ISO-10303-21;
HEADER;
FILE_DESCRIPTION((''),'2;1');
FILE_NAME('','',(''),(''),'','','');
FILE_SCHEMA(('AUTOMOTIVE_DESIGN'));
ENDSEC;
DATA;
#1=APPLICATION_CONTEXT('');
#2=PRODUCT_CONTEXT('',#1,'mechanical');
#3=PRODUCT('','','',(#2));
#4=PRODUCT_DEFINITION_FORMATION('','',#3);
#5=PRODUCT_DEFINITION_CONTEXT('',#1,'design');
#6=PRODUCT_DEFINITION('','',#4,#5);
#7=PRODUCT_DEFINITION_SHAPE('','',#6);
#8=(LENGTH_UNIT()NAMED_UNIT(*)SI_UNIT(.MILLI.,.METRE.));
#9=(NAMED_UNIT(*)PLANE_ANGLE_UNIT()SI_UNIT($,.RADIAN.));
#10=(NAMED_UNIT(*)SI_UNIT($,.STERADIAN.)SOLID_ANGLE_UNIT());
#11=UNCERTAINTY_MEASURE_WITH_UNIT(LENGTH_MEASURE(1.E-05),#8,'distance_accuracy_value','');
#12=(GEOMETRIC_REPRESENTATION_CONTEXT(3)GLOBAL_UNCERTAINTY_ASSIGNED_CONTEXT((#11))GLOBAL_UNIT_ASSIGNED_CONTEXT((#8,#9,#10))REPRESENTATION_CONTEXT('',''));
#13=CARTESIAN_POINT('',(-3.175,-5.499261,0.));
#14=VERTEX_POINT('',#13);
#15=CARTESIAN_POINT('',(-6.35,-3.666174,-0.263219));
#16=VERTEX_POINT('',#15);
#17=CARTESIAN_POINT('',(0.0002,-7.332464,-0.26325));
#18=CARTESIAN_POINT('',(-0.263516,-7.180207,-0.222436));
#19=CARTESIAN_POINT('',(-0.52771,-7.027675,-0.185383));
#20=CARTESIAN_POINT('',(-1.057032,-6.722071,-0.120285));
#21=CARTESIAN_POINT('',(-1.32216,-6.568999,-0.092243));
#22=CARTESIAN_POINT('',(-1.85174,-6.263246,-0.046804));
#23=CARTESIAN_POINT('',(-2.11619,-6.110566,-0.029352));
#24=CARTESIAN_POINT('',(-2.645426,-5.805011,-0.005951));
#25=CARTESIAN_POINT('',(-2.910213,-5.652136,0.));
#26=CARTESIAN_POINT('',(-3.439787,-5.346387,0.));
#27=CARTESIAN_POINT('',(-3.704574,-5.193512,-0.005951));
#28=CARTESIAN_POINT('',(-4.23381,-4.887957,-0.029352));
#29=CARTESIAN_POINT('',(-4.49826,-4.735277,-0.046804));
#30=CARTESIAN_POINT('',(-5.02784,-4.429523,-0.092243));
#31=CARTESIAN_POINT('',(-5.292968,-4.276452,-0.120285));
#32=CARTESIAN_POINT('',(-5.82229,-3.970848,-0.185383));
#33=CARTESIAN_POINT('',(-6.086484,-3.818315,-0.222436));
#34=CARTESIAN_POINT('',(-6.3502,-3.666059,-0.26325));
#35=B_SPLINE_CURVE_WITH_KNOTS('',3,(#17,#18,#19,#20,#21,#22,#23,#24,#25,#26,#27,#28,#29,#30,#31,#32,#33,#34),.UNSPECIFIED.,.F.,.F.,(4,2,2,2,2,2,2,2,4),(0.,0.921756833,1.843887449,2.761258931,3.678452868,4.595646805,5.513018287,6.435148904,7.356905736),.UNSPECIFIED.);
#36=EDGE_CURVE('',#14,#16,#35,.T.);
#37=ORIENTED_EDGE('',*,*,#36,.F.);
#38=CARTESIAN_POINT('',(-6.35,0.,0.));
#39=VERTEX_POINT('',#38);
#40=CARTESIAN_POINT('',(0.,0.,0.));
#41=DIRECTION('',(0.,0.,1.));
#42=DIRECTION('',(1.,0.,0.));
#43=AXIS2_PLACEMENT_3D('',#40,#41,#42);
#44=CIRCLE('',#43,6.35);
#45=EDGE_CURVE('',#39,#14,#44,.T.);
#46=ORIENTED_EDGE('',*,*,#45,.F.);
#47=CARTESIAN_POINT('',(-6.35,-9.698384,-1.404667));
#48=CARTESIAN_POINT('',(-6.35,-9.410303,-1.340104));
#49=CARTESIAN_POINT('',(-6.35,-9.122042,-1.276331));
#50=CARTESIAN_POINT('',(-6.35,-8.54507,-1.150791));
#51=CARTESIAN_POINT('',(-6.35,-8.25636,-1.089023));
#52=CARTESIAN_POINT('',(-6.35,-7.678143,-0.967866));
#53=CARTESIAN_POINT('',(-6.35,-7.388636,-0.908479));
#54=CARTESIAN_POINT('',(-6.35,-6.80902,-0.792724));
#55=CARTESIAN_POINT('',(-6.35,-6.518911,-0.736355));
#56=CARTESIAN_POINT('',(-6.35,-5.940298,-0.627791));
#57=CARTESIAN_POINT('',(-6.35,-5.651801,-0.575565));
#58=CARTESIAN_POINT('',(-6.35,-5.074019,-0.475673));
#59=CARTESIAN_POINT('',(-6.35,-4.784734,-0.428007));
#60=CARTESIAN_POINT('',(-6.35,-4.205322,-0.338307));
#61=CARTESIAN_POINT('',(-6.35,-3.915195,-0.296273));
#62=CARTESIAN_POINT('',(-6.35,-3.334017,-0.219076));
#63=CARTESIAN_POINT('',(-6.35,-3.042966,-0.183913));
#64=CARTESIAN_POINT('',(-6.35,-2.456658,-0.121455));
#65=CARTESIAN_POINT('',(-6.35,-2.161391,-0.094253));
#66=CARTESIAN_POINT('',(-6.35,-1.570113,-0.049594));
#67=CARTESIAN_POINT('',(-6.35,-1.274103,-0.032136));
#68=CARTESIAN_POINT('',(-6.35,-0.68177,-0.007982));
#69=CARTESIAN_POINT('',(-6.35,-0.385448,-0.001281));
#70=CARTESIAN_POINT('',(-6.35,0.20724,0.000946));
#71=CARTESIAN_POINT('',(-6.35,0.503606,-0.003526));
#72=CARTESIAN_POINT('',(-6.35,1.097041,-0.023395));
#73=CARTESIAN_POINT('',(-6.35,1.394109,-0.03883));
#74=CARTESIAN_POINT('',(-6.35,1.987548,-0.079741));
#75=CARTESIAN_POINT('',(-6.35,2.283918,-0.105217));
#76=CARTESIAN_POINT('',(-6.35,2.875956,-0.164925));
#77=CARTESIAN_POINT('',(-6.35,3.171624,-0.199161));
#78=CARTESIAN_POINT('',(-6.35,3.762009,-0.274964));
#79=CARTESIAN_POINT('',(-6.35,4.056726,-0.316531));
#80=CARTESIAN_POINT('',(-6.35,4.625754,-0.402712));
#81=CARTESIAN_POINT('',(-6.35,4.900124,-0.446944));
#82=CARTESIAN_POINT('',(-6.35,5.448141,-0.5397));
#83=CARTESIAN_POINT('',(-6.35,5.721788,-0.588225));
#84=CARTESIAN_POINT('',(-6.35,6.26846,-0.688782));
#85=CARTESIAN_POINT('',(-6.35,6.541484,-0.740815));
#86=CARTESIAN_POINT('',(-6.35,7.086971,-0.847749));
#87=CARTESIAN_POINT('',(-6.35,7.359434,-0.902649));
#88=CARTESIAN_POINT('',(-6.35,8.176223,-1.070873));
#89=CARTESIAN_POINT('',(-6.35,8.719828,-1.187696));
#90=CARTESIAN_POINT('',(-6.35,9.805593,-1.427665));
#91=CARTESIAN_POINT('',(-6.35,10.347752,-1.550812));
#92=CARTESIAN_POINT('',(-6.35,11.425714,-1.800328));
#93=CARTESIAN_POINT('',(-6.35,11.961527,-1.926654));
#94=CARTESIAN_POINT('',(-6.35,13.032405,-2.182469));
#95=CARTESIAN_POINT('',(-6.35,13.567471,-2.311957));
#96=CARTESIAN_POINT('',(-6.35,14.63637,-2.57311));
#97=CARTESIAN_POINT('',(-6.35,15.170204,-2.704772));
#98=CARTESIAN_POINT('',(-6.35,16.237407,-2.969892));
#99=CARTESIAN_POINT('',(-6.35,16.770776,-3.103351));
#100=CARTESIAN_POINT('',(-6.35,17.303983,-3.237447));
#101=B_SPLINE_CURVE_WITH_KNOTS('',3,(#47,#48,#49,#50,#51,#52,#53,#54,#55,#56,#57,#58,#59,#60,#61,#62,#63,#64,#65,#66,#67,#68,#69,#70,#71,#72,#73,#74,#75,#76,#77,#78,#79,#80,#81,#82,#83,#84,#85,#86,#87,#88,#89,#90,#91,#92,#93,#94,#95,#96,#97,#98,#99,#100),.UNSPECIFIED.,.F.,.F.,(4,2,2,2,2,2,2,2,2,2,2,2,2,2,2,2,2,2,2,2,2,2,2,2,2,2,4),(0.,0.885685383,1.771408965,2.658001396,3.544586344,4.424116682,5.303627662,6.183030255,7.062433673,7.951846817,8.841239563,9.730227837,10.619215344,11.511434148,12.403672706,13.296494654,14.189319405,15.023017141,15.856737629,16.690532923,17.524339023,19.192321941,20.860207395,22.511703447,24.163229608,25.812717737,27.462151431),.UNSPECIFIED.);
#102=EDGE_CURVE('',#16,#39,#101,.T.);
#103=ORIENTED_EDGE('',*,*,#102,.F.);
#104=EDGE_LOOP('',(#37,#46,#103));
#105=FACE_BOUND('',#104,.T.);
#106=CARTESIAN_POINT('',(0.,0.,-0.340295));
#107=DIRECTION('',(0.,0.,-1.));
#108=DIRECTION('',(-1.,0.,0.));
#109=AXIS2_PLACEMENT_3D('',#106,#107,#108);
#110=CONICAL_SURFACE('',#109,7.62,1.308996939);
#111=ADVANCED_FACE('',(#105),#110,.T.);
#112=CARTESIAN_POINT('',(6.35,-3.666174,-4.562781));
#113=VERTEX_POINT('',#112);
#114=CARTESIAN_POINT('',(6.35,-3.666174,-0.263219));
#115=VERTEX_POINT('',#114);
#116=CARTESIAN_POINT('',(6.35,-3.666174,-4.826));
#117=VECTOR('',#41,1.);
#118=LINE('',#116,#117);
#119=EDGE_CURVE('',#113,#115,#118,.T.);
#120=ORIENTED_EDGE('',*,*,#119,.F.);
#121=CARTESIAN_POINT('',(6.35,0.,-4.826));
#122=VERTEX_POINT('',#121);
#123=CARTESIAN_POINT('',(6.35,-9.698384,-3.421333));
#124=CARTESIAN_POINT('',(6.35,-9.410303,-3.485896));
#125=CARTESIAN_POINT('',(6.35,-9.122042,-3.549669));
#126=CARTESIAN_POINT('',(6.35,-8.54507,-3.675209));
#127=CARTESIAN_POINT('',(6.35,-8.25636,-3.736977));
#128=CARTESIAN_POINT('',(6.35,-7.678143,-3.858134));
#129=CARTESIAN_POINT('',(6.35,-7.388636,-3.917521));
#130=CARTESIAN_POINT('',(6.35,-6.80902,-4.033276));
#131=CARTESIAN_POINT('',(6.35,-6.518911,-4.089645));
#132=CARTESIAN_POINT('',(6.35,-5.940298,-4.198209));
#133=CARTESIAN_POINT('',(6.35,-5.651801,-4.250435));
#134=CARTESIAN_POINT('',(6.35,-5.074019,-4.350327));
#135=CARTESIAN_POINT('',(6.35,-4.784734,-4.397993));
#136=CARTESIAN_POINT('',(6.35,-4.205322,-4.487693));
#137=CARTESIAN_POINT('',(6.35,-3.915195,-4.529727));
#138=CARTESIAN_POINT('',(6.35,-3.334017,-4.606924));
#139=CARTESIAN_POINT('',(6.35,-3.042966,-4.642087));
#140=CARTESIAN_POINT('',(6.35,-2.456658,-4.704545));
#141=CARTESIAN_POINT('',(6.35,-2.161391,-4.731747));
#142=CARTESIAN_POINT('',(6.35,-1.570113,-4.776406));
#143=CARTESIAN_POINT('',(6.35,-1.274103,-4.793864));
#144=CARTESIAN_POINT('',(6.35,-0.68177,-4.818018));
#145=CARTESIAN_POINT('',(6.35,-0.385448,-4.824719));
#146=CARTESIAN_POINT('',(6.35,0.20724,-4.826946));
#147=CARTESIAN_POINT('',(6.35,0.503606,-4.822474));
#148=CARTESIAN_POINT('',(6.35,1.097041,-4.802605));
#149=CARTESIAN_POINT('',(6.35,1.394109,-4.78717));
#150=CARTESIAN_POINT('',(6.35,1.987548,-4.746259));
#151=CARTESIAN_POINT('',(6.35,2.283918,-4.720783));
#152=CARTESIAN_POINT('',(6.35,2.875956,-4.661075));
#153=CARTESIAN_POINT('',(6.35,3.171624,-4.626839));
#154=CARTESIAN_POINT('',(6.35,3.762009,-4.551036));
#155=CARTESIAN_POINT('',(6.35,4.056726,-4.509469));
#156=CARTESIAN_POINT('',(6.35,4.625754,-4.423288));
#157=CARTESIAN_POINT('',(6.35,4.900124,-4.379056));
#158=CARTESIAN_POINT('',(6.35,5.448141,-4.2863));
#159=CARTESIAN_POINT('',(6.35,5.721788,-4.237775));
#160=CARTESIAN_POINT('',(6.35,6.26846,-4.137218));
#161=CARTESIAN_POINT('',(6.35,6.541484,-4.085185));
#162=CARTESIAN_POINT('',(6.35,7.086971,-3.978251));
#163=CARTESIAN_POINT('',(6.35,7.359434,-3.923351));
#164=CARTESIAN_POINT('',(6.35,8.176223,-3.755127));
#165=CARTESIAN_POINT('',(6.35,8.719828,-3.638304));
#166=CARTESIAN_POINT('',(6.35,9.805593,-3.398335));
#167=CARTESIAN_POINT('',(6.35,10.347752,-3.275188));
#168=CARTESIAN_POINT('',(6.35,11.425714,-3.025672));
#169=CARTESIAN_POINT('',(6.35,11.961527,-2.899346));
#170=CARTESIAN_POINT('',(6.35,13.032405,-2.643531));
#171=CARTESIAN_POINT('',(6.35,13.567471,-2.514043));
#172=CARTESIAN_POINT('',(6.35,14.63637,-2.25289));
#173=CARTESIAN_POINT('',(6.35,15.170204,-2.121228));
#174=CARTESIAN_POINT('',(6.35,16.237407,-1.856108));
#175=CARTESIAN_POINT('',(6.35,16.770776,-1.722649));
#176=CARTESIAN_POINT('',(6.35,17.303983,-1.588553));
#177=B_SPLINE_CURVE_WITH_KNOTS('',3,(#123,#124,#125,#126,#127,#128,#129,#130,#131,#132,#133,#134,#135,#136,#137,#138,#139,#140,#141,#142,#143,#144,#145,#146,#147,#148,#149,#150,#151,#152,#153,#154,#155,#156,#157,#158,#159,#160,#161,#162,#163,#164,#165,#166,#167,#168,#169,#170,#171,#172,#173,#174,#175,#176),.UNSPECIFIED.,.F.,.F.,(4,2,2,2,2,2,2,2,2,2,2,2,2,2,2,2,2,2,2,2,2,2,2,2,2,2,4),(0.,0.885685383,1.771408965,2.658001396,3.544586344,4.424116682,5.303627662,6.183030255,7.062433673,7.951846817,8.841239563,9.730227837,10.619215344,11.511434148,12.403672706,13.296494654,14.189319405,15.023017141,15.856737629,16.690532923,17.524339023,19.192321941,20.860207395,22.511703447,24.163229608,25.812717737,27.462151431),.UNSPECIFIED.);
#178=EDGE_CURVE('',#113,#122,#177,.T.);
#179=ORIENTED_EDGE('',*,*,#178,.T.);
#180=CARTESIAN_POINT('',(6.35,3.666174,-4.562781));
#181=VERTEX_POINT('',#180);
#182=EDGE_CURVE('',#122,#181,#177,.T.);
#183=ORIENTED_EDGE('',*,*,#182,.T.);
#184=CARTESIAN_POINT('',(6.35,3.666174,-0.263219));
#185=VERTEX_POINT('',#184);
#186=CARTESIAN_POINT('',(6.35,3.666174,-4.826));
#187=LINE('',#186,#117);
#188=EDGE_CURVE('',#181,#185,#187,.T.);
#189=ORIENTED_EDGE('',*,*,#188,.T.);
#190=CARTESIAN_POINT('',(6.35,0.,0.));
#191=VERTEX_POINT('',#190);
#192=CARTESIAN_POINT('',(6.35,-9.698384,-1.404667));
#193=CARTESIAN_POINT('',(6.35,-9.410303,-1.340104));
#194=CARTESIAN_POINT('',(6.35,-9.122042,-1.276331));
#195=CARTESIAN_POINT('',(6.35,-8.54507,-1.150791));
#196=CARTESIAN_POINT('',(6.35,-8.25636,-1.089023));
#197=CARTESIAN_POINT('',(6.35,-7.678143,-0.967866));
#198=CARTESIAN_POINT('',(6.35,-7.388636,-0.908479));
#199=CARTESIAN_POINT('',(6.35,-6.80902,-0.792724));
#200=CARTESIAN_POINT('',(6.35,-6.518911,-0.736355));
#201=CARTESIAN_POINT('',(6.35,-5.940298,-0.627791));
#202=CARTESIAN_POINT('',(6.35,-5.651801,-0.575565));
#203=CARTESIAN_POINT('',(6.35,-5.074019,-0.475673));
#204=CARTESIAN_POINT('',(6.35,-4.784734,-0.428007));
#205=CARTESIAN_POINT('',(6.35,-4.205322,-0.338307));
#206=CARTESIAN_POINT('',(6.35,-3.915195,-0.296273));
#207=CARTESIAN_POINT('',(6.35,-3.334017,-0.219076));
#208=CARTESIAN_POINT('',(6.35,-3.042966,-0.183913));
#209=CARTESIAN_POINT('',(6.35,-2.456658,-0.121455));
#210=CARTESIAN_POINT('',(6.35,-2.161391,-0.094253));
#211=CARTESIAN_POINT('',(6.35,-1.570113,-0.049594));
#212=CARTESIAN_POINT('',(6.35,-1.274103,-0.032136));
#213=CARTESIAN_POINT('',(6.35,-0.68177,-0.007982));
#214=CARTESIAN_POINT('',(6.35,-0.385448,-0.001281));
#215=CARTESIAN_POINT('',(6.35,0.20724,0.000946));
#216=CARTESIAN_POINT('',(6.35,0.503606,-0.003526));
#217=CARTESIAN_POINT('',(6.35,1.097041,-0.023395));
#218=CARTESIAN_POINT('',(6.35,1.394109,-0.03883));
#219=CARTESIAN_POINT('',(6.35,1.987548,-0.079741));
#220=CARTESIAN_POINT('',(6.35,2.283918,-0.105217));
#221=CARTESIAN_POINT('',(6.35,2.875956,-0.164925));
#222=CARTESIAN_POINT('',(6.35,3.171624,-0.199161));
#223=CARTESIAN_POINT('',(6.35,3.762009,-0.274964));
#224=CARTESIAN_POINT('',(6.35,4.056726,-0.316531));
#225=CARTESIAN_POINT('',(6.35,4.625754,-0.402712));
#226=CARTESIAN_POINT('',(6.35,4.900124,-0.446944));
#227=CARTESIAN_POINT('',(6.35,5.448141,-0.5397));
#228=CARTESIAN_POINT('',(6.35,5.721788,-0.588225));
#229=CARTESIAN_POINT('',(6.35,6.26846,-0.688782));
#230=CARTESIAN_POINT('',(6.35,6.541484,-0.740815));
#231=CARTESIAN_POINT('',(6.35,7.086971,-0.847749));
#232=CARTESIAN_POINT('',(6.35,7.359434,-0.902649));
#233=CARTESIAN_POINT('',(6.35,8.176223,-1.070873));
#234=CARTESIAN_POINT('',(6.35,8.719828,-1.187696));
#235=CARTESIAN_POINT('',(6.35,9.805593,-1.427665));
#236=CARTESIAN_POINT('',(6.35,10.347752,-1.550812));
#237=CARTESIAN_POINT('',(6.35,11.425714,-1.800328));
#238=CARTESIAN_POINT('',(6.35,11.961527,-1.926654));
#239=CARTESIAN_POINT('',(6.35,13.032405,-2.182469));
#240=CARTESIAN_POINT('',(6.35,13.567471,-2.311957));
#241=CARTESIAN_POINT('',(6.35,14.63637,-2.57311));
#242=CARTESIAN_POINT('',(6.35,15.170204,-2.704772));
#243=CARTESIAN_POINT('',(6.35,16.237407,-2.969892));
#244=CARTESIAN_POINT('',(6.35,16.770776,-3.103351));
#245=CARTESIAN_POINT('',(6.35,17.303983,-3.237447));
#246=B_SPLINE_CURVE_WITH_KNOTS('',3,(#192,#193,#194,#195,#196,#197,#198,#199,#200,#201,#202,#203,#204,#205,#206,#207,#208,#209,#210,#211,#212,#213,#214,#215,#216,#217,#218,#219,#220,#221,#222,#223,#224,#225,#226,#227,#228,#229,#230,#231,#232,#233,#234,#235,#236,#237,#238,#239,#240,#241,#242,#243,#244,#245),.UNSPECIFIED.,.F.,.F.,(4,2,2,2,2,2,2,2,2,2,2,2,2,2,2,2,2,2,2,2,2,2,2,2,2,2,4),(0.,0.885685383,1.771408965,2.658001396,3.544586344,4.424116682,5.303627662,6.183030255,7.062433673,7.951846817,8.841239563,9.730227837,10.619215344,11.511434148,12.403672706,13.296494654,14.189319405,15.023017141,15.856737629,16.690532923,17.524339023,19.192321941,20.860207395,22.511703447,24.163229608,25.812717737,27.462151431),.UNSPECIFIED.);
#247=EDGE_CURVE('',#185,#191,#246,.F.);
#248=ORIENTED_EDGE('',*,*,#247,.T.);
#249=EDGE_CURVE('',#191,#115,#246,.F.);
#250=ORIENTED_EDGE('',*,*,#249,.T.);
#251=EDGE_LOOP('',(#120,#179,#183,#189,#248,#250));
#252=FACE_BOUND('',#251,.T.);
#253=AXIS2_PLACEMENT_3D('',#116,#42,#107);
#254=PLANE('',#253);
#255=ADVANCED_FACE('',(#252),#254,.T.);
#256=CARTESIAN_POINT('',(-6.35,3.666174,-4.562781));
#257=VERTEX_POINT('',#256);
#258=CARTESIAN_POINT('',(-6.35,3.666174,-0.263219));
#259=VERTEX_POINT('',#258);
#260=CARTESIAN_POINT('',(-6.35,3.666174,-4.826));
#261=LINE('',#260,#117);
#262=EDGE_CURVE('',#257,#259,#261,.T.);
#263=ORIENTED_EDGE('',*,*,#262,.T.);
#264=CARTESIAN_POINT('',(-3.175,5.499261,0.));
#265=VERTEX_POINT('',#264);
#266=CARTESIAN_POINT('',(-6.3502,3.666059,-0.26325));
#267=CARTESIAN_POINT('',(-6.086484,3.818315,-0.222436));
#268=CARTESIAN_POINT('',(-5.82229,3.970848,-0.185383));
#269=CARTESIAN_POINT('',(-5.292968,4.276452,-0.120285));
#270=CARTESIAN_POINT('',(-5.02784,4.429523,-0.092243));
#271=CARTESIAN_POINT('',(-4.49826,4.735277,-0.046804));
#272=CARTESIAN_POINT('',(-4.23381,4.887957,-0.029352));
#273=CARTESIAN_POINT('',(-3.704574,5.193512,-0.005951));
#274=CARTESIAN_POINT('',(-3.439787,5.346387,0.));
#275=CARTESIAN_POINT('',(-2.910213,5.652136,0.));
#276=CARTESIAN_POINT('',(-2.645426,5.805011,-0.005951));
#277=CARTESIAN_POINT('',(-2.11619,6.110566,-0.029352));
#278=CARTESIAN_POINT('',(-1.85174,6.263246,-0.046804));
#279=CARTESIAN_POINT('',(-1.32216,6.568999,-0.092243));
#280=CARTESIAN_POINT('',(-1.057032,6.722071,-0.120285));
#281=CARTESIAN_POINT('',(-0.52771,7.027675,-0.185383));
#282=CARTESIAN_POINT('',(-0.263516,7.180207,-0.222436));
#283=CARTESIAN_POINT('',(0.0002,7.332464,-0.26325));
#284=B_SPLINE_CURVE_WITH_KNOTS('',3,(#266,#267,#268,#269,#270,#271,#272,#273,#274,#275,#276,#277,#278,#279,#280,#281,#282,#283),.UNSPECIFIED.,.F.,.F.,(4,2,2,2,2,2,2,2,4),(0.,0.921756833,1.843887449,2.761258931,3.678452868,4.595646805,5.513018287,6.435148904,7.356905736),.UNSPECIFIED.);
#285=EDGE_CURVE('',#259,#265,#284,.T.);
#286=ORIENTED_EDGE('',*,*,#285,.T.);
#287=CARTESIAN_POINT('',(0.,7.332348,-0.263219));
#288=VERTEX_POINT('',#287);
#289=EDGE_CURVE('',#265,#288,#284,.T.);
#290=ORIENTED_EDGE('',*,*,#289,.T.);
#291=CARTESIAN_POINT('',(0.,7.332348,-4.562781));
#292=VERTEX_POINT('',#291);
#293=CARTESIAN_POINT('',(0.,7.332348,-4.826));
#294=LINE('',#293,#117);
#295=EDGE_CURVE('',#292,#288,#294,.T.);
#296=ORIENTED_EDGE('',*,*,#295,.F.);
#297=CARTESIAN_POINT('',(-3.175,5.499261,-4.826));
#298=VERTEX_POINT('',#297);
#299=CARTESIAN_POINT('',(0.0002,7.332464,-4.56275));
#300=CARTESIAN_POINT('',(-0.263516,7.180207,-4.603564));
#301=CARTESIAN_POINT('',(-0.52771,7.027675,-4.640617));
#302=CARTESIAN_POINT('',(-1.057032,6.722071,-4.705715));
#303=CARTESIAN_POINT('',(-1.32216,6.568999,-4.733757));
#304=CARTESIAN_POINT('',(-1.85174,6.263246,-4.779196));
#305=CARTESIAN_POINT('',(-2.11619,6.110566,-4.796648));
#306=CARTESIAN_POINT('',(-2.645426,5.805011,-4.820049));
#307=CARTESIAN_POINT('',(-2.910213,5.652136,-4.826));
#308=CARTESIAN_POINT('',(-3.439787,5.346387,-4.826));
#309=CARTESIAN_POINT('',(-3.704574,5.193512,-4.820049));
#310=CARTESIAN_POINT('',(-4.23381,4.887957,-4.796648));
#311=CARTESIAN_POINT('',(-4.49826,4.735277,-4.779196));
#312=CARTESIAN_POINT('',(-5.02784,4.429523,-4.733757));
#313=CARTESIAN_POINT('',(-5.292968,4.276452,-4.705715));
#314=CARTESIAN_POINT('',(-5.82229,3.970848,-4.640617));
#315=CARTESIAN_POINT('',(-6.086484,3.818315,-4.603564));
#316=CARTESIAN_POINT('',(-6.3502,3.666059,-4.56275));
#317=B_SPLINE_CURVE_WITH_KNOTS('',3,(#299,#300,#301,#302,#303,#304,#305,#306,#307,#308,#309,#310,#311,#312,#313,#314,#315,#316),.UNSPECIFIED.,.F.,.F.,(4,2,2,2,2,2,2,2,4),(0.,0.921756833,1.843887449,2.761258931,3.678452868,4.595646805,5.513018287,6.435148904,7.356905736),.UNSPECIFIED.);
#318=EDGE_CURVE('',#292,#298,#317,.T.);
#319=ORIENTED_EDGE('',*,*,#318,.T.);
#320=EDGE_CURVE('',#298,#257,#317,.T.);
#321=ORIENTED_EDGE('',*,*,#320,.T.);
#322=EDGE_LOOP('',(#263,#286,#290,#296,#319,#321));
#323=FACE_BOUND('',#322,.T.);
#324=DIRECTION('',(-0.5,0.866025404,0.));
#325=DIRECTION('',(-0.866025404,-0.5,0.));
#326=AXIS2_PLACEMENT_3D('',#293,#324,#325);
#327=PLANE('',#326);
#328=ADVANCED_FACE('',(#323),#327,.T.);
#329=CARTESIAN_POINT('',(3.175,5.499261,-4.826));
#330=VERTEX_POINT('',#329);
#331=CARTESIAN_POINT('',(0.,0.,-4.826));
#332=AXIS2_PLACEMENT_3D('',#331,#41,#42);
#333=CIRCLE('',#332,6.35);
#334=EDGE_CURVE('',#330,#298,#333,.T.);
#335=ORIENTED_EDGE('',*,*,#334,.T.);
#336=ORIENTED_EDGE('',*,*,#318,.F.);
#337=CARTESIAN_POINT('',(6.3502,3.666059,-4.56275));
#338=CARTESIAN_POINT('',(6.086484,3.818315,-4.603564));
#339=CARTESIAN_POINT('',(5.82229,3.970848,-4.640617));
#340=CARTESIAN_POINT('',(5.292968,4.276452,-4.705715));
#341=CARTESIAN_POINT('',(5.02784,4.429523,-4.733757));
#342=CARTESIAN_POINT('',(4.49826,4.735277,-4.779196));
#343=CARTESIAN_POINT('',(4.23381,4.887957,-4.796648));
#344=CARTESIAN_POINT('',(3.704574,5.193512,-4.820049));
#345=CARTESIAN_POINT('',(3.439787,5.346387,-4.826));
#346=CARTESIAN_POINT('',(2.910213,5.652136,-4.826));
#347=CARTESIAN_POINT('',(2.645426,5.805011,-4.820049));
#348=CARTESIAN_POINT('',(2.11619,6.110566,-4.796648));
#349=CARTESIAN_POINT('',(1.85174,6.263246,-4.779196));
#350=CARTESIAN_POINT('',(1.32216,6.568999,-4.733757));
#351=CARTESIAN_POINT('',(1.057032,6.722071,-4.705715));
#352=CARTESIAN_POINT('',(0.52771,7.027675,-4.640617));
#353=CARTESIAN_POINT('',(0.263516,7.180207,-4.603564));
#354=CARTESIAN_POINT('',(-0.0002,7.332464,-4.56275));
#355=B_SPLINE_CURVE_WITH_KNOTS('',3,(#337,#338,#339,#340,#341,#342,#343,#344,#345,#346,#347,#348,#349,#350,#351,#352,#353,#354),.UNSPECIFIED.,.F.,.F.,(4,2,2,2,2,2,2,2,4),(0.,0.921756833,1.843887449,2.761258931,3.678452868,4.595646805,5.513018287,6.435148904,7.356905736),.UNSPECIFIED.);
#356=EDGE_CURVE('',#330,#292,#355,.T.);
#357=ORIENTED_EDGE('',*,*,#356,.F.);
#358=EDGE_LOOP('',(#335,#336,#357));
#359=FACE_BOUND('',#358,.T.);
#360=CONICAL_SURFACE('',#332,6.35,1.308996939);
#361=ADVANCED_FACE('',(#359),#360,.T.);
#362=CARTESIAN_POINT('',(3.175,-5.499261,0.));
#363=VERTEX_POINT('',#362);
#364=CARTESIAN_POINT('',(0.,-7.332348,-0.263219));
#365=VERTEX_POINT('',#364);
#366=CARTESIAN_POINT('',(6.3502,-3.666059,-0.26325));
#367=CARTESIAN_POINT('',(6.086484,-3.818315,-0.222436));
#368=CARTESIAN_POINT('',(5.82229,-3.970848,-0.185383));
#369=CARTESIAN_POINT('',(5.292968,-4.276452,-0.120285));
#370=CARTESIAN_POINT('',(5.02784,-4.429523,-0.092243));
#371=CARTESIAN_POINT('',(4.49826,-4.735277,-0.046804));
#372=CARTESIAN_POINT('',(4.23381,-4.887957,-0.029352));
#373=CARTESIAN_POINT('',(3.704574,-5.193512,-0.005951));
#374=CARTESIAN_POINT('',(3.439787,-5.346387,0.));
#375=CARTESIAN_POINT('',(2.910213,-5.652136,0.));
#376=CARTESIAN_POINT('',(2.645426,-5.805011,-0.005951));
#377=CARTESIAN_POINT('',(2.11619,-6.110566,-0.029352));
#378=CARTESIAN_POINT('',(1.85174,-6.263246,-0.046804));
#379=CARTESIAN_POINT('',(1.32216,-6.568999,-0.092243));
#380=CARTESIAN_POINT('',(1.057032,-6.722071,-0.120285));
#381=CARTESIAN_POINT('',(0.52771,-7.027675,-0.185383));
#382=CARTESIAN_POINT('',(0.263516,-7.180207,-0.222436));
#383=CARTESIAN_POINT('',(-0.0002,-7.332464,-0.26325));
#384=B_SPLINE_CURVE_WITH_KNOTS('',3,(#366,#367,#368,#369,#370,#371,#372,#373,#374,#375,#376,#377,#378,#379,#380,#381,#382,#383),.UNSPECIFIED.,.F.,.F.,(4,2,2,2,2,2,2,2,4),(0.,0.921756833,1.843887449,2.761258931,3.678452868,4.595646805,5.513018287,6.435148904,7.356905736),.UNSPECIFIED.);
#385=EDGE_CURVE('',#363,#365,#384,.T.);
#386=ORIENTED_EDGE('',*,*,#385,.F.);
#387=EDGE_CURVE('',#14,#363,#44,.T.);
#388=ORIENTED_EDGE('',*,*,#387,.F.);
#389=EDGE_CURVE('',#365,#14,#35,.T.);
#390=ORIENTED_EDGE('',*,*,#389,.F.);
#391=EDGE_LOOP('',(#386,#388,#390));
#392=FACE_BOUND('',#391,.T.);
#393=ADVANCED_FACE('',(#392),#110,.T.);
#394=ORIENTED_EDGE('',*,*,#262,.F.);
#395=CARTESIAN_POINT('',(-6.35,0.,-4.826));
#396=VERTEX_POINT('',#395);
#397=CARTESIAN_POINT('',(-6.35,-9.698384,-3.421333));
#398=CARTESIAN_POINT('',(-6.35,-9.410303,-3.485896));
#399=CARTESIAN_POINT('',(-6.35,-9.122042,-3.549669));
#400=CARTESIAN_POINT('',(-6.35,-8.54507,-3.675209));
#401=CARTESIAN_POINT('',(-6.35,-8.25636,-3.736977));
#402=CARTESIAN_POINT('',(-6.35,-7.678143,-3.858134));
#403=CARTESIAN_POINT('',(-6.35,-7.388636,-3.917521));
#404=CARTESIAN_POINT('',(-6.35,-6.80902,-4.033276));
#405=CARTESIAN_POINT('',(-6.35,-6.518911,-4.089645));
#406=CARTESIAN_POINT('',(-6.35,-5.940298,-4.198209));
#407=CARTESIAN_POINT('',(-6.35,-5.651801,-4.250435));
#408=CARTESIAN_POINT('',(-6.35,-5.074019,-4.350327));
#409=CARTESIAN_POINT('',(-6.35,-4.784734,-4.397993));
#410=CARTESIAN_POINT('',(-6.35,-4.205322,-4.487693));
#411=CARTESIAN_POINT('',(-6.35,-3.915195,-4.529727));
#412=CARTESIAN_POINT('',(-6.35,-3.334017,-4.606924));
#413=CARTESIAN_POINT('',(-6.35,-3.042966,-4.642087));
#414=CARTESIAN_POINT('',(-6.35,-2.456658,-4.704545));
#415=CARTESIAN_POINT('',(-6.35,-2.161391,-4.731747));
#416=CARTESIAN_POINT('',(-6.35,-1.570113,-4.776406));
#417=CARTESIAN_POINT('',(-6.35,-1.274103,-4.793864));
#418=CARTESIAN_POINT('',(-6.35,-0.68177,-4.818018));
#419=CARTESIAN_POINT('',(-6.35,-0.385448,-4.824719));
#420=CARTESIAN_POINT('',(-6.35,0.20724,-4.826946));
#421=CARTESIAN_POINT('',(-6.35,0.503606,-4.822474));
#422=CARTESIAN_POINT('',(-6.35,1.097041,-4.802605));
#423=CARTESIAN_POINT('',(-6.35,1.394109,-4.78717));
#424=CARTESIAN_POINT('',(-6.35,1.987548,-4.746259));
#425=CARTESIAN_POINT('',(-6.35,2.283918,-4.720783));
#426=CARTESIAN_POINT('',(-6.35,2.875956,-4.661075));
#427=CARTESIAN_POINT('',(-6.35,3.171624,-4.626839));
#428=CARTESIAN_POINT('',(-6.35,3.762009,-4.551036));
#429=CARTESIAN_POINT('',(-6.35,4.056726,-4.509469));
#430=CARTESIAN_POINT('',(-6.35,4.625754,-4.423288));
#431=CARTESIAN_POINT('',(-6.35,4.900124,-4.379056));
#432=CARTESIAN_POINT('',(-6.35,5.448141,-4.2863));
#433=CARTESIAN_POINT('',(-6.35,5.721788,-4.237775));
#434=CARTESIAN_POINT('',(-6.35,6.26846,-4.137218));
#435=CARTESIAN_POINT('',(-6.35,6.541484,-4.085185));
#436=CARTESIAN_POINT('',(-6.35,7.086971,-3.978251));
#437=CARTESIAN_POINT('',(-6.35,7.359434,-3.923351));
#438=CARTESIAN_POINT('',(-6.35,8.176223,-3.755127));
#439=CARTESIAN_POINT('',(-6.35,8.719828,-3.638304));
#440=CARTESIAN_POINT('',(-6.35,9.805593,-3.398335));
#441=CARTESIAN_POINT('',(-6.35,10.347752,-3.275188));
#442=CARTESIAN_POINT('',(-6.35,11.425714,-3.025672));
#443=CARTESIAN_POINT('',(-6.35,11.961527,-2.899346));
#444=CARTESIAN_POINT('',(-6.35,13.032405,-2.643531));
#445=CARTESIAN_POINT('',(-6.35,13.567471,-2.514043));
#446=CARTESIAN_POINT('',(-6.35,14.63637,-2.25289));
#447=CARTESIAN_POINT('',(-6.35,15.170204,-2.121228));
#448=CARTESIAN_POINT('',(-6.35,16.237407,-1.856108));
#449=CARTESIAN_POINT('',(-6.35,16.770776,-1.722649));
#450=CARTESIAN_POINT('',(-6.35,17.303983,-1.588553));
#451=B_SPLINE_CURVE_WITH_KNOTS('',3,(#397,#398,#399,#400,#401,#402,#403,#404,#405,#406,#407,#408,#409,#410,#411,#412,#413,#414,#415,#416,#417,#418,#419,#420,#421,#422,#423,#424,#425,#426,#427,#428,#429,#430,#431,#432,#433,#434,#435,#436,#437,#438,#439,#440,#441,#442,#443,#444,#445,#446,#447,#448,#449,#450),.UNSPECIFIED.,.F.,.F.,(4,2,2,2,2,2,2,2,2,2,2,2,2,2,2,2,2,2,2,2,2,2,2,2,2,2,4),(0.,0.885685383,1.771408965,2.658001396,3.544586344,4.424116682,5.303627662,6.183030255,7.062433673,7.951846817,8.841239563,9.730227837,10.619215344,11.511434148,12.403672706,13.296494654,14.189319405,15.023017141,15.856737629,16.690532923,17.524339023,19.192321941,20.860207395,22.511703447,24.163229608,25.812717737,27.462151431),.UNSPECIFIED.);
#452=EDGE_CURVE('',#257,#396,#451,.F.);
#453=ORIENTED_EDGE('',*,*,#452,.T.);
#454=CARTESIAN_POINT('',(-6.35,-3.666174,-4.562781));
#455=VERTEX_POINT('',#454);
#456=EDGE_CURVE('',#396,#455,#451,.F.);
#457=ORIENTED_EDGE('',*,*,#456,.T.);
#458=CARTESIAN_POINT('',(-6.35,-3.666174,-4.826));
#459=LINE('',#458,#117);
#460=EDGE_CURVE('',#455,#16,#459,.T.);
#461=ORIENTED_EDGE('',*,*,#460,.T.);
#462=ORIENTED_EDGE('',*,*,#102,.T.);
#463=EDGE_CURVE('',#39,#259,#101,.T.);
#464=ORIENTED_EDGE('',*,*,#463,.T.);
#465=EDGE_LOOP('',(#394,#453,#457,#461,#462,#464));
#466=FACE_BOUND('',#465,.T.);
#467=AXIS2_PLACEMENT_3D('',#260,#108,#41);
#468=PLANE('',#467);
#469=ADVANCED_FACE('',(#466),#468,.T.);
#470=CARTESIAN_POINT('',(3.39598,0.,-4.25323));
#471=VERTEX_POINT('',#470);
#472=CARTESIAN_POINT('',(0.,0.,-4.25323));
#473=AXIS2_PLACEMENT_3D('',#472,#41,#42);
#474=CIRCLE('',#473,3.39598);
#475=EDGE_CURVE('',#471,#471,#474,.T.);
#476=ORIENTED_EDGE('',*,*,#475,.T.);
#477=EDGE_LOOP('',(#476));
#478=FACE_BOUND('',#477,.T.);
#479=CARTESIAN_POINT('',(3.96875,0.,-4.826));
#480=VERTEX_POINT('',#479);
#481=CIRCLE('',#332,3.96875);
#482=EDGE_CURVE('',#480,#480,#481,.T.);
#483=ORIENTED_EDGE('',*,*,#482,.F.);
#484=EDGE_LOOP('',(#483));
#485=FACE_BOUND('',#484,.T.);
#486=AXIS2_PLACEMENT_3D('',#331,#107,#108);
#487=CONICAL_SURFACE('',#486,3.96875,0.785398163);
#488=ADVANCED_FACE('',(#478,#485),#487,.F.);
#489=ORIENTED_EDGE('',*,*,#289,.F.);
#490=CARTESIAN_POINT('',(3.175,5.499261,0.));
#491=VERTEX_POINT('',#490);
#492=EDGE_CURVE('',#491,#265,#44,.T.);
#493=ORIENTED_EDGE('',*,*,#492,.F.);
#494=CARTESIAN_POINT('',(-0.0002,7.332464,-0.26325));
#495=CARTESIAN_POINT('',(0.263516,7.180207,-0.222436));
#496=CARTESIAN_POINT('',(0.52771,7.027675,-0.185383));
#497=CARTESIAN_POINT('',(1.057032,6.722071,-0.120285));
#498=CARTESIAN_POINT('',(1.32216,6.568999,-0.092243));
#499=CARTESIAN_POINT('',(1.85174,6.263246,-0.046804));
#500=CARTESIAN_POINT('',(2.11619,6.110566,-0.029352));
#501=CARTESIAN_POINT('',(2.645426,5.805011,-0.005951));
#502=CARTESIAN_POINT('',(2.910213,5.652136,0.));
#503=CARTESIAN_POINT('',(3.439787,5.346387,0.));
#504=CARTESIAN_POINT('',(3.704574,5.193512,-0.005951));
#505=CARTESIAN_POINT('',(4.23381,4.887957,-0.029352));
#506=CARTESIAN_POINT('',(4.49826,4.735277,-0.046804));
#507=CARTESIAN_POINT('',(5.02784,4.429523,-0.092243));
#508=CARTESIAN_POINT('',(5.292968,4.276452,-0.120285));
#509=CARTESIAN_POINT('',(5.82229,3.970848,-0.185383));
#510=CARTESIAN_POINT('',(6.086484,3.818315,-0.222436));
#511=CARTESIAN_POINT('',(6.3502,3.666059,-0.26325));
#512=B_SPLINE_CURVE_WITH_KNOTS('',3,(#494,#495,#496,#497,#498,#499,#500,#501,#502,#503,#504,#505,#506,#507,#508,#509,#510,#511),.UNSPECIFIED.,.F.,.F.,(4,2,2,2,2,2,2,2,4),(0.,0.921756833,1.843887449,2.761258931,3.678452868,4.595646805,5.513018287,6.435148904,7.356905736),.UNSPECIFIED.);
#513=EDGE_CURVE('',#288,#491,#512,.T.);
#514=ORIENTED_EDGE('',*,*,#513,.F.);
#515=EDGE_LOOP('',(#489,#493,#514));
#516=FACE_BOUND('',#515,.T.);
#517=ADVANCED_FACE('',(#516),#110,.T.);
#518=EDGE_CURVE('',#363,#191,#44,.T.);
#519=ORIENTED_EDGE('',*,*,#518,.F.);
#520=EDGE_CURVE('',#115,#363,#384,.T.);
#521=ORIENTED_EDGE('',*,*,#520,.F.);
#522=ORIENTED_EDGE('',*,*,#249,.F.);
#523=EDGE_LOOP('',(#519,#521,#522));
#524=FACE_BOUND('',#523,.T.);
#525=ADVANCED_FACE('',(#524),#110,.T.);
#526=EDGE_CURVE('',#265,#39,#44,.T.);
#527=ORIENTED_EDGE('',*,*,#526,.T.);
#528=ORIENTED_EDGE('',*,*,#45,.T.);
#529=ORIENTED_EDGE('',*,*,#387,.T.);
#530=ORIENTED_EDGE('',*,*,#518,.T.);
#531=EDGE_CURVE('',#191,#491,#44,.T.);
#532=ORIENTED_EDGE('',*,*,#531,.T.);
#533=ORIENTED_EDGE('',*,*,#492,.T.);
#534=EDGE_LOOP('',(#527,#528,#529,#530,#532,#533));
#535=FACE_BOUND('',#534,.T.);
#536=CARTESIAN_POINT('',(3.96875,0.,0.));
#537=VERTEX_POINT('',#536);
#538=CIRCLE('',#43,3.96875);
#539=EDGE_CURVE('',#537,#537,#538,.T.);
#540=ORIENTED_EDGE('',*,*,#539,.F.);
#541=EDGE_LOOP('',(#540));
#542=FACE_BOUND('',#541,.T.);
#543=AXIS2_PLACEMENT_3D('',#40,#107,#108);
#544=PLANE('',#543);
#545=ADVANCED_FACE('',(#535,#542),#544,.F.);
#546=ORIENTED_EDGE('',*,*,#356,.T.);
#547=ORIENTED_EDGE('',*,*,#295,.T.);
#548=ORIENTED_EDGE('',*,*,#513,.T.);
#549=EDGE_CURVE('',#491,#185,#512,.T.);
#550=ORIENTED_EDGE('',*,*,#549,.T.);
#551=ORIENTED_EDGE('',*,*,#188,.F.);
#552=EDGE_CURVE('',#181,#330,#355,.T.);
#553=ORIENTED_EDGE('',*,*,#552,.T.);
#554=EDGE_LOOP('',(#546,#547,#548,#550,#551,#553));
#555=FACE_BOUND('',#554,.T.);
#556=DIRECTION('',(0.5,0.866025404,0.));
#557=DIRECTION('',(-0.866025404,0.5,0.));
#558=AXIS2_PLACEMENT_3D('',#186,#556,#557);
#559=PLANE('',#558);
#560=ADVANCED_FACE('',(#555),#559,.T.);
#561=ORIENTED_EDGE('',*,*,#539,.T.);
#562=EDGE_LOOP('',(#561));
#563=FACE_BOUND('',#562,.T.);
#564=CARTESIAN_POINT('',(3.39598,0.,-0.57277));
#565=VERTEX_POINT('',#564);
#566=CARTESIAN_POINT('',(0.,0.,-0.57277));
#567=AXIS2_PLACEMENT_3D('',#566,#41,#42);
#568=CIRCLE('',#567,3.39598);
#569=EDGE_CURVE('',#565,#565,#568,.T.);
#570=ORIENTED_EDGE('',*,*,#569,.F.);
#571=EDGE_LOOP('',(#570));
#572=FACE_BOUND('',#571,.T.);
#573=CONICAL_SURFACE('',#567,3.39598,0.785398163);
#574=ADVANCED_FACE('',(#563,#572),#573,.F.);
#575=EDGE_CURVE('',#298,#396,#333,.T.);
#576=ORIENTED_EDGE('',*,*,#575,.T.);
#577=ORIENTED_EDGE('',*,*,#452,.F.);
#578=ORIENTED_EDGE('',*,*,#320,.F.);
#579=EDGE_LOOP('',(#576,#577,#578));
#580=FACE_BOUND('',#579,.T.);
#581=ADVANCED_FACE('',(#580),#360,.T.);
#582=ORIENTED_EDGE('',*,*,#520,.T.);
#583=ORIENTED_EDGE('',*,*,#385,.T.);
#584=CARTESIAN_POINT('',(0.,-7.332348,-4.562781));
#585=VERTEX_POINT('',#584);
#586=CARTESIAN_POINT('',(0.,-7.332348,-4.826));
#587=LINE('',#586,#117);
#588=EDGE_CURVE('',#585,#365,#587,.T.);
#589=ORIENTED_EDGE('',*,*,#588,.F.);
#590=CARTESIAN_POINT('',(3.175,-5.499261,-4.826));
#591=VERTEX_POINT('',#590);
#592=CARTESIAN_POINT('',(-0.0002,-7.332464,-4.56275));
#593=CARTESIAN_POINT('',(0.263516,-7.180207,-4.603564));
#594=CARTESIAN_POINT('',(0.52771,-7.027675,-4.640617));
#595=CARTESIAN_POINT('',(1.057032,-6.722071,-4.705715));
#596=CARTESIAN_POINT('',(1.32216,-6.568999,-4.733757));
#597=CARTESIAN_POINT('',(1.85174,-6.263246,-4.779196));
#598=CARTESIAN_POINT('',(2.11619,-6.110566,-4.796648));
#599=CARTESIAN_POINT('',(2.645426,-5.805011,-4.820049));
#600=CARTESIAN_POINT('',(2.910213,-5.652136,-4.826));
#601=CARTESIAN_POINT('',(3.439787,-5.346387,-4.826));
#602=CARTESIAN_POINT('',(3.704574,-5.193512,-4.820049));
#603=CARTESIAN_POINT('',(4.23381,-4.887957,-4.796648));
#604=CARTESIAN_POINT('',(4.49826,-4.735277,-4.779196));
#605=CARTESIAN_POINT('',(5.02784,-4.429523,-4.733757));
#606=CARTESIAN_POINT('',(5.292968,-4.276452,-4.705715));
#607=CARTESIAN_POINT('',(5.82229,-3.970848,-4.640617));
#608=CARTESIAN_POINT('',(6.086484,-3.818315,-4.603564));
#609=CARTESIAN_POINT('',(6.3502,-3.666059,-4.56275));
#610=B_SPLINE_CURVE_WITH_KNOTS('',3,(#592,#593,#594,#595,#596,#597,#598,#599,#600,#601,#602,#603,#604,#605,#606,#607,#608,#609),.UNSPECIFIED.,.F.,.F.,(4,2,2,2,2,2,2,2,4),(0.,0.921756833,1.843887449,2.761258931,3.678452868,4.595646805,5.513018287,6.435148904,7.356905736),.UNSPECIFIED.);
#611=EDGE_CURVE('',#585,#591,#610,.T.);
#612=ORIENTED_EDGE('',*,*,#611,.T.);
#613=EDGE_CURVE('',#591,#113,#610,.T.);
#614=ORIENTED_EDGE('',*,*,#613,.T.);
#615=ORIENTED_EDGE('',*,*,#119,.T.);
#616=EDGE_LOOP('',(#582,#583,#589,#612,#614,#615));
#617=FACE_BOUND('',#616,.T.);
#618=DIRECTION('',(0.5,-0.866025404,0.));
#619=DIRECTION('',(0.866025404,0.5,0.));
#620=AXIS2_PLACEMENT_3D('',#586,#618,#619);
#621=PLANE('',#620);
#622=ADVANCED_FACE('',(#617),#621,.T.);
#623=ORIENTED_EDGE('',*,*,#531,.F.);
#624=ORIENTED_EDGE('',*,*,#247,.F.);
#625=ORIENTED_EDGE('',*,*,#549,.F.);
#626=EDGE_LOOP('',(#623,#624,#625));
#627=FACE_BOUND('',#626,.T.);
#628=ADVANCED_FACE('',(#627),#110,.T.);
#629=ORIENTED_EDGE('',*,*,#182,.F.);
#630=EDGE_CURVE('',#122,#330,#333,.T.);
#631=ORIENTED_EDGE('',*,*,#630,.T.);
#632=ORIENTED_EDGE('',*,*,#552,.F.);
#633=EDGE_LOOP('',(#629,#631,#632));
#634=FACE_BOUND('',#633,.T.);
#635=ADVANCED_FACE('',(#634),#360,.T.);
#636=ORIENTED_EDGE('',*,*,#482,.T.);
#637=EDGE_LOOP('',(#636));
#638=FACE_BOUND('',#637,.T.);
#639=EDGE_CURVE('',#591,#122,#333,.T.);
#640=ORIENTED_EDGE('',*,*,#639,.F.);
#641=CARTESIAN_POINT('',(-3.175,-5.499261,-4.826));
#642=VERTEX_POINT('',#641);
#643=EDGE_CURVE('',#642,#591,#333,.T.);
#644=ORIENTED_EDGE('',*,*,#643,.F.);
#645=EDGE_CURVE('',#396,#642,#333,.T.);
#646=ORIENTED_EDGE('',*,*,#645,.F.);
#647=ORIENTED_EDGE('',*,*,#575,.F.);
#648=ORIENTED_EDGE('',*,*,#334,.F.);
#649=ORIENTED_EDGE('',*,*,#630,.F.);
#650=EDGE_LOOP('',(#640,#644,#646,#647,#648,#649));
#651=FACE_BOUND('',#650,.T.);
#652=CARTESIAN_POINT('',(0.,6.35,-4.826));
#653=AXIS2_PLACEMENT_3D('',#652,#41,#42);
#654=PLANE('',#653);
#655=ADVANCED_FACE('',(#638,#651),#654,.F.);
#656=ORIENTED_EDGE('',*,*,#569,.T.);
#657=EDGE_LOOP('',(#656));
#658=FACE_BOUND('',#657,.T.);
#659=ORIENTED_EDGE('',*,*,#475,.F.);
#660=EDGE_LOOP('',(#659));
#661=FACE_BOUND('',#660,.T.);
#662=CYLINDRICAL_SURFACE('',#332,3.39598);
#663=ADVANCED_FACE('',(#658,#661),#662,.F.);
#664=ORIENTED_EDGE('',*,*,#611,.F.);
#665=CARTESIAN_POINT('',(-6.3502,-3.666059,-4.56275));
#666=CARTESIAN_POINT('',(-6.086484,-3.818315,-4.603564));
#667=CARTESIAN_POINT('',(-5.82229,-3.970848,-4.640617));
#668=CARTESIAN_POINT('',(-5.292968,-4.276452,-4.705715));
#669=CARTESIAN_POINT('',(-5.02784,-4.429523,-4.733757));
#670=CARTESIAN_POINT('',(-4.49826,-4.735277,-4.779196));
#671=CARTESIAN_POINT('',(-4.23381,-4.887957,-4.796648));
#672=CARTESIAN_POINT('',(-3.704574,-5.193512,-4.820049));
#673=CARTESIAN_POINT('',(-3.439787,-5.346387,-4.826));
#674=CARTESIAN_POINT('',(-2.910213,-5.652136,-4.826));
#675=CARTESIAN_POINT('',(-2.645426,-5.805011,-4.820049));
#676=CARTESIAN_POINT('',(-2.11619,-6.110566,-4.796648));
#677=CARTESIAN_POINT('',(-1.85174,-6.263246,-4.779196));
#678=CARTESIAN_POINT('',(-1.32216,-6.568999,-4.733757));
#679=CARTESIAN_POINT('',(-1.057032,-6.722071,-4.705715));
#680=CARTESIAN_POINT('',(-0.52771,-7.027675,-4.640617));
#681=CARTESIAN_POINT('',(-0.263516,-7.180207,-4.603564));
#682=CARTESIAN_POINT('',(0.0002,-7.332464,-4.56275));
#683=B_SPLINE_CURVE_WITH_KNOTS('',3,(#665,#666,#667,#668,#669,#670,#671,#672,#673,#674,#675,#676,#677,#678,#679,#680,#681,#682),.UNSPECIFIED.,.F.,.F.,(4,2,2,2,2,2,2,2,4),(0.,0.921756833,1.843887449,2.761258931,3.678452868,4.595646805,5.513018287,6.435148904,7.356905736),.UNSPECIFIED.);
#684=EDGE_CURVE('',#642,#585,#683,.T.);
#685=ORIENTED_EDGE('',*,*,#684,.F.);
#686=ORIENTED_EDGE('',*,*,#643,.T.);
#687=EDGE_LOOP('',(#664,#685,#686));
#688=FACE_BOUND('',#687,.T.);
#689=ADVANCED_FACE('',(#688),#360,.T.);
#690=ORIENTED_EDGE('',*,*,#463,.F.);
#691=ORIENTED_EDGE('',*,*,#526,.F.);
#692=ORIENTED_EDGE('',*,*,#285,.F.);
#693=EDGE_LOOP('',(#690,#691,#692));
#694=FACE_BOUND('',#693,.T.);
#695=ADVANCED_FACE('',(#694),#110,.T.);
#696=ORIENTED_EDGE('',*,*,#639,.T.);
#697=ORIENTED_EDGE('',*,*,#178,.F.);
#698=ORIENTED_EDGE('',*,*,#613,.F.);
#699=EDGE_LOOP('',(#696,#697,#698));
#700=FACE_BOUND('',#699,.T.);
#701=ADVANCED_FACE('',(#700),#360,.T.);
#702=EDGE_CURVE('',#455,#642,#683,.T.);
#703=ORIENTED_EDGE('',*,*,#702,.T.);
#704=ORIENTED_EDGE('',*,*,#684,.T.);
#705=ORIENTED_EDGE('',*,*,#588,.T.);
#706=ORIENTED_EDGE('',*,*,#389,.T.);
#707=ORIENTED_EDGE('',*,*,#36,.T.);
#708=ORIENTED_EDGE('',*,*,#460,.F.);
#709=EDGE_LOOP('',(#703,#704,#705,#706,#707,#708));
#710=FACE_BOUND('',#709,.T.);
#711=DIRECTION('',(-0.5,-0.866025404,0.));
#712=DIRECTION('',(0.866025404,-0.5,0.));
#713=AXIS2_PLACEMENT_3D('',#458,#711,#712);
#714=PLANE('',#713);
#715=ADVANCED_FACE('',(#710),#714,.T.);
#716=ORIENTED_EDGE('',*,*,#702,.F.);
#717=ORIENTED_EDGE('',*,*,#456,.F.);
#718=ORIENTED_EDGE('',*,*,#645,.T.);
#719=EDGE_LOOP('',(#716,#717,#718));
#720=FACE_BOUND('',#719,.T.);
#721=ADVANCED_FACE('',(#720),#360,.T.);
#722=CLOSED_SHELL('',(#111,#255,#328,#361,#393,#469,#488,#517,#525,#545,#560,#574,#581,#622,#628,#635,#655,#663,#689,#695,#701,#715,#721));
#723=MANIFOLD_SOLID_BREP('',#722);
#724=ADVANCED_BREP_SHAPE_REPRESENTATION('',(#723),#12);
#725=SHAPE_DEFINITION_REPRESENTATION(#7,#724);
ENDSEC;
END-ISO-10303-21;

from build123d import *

# Parameters (mm, degrees)
SKETCH2_W          = 25.4
SKETCH2_H          = 25.4
CUT_EXTRUDE1_DEPTH = 4.826


with BuildPart() as part:
    # Sketch1 → Revolve1 (revolve)
    with BuildSketch(Plane(origin=(0, 0, 0), x_dir=(0, 0, -1), z_dir=(1, 0, 0))):
        Polygon((0, 0), (0, 6.35), (0.340295474, 7.62), (4.485704526, 7.62), (4.826, 6.35), (4.826, 0), align=None)
    revolve(axis=Axis((0, 0, -4.826), (0, 0, 1)))

    # Sketch2 → Cut-Extrude1 (cut)
    with BuildSketch(Plane.XY):
        Rectangle(SKETCH2_W, SKETCH2_H)
        Polygon((-6.35, 3.666174209), (-6.35, -3.666174209), (0, -7.332348419), (6.35, -3.666174209), (6.35, 3.666174209), (0, 7.332348419), align=None, mode=Mode.SUBTRACT)
    extrude(amount=-CUT_EXTRUDE1_DEPTH, mode=Mode.SUBTRACT)

    # Sketch3 → Cut-Revolve1 (revolve, cut)
    with BuildSketch(Plane(origin=(0, 0, 0), x_dir=(0, 0, -1), z_dir=(1, 0, 0))):
        Polygon((0, 0), (0, 3.96875), (0.57277, 3.39598), (4.25323, 3.39598), (4.826, 3.96875), (4.826, 0), align=None)
    revolve(axis=Axis((0, 0, -4.826), (0, 0, 1)), mode=Mode.SUBTRACT)


solid = part.part
